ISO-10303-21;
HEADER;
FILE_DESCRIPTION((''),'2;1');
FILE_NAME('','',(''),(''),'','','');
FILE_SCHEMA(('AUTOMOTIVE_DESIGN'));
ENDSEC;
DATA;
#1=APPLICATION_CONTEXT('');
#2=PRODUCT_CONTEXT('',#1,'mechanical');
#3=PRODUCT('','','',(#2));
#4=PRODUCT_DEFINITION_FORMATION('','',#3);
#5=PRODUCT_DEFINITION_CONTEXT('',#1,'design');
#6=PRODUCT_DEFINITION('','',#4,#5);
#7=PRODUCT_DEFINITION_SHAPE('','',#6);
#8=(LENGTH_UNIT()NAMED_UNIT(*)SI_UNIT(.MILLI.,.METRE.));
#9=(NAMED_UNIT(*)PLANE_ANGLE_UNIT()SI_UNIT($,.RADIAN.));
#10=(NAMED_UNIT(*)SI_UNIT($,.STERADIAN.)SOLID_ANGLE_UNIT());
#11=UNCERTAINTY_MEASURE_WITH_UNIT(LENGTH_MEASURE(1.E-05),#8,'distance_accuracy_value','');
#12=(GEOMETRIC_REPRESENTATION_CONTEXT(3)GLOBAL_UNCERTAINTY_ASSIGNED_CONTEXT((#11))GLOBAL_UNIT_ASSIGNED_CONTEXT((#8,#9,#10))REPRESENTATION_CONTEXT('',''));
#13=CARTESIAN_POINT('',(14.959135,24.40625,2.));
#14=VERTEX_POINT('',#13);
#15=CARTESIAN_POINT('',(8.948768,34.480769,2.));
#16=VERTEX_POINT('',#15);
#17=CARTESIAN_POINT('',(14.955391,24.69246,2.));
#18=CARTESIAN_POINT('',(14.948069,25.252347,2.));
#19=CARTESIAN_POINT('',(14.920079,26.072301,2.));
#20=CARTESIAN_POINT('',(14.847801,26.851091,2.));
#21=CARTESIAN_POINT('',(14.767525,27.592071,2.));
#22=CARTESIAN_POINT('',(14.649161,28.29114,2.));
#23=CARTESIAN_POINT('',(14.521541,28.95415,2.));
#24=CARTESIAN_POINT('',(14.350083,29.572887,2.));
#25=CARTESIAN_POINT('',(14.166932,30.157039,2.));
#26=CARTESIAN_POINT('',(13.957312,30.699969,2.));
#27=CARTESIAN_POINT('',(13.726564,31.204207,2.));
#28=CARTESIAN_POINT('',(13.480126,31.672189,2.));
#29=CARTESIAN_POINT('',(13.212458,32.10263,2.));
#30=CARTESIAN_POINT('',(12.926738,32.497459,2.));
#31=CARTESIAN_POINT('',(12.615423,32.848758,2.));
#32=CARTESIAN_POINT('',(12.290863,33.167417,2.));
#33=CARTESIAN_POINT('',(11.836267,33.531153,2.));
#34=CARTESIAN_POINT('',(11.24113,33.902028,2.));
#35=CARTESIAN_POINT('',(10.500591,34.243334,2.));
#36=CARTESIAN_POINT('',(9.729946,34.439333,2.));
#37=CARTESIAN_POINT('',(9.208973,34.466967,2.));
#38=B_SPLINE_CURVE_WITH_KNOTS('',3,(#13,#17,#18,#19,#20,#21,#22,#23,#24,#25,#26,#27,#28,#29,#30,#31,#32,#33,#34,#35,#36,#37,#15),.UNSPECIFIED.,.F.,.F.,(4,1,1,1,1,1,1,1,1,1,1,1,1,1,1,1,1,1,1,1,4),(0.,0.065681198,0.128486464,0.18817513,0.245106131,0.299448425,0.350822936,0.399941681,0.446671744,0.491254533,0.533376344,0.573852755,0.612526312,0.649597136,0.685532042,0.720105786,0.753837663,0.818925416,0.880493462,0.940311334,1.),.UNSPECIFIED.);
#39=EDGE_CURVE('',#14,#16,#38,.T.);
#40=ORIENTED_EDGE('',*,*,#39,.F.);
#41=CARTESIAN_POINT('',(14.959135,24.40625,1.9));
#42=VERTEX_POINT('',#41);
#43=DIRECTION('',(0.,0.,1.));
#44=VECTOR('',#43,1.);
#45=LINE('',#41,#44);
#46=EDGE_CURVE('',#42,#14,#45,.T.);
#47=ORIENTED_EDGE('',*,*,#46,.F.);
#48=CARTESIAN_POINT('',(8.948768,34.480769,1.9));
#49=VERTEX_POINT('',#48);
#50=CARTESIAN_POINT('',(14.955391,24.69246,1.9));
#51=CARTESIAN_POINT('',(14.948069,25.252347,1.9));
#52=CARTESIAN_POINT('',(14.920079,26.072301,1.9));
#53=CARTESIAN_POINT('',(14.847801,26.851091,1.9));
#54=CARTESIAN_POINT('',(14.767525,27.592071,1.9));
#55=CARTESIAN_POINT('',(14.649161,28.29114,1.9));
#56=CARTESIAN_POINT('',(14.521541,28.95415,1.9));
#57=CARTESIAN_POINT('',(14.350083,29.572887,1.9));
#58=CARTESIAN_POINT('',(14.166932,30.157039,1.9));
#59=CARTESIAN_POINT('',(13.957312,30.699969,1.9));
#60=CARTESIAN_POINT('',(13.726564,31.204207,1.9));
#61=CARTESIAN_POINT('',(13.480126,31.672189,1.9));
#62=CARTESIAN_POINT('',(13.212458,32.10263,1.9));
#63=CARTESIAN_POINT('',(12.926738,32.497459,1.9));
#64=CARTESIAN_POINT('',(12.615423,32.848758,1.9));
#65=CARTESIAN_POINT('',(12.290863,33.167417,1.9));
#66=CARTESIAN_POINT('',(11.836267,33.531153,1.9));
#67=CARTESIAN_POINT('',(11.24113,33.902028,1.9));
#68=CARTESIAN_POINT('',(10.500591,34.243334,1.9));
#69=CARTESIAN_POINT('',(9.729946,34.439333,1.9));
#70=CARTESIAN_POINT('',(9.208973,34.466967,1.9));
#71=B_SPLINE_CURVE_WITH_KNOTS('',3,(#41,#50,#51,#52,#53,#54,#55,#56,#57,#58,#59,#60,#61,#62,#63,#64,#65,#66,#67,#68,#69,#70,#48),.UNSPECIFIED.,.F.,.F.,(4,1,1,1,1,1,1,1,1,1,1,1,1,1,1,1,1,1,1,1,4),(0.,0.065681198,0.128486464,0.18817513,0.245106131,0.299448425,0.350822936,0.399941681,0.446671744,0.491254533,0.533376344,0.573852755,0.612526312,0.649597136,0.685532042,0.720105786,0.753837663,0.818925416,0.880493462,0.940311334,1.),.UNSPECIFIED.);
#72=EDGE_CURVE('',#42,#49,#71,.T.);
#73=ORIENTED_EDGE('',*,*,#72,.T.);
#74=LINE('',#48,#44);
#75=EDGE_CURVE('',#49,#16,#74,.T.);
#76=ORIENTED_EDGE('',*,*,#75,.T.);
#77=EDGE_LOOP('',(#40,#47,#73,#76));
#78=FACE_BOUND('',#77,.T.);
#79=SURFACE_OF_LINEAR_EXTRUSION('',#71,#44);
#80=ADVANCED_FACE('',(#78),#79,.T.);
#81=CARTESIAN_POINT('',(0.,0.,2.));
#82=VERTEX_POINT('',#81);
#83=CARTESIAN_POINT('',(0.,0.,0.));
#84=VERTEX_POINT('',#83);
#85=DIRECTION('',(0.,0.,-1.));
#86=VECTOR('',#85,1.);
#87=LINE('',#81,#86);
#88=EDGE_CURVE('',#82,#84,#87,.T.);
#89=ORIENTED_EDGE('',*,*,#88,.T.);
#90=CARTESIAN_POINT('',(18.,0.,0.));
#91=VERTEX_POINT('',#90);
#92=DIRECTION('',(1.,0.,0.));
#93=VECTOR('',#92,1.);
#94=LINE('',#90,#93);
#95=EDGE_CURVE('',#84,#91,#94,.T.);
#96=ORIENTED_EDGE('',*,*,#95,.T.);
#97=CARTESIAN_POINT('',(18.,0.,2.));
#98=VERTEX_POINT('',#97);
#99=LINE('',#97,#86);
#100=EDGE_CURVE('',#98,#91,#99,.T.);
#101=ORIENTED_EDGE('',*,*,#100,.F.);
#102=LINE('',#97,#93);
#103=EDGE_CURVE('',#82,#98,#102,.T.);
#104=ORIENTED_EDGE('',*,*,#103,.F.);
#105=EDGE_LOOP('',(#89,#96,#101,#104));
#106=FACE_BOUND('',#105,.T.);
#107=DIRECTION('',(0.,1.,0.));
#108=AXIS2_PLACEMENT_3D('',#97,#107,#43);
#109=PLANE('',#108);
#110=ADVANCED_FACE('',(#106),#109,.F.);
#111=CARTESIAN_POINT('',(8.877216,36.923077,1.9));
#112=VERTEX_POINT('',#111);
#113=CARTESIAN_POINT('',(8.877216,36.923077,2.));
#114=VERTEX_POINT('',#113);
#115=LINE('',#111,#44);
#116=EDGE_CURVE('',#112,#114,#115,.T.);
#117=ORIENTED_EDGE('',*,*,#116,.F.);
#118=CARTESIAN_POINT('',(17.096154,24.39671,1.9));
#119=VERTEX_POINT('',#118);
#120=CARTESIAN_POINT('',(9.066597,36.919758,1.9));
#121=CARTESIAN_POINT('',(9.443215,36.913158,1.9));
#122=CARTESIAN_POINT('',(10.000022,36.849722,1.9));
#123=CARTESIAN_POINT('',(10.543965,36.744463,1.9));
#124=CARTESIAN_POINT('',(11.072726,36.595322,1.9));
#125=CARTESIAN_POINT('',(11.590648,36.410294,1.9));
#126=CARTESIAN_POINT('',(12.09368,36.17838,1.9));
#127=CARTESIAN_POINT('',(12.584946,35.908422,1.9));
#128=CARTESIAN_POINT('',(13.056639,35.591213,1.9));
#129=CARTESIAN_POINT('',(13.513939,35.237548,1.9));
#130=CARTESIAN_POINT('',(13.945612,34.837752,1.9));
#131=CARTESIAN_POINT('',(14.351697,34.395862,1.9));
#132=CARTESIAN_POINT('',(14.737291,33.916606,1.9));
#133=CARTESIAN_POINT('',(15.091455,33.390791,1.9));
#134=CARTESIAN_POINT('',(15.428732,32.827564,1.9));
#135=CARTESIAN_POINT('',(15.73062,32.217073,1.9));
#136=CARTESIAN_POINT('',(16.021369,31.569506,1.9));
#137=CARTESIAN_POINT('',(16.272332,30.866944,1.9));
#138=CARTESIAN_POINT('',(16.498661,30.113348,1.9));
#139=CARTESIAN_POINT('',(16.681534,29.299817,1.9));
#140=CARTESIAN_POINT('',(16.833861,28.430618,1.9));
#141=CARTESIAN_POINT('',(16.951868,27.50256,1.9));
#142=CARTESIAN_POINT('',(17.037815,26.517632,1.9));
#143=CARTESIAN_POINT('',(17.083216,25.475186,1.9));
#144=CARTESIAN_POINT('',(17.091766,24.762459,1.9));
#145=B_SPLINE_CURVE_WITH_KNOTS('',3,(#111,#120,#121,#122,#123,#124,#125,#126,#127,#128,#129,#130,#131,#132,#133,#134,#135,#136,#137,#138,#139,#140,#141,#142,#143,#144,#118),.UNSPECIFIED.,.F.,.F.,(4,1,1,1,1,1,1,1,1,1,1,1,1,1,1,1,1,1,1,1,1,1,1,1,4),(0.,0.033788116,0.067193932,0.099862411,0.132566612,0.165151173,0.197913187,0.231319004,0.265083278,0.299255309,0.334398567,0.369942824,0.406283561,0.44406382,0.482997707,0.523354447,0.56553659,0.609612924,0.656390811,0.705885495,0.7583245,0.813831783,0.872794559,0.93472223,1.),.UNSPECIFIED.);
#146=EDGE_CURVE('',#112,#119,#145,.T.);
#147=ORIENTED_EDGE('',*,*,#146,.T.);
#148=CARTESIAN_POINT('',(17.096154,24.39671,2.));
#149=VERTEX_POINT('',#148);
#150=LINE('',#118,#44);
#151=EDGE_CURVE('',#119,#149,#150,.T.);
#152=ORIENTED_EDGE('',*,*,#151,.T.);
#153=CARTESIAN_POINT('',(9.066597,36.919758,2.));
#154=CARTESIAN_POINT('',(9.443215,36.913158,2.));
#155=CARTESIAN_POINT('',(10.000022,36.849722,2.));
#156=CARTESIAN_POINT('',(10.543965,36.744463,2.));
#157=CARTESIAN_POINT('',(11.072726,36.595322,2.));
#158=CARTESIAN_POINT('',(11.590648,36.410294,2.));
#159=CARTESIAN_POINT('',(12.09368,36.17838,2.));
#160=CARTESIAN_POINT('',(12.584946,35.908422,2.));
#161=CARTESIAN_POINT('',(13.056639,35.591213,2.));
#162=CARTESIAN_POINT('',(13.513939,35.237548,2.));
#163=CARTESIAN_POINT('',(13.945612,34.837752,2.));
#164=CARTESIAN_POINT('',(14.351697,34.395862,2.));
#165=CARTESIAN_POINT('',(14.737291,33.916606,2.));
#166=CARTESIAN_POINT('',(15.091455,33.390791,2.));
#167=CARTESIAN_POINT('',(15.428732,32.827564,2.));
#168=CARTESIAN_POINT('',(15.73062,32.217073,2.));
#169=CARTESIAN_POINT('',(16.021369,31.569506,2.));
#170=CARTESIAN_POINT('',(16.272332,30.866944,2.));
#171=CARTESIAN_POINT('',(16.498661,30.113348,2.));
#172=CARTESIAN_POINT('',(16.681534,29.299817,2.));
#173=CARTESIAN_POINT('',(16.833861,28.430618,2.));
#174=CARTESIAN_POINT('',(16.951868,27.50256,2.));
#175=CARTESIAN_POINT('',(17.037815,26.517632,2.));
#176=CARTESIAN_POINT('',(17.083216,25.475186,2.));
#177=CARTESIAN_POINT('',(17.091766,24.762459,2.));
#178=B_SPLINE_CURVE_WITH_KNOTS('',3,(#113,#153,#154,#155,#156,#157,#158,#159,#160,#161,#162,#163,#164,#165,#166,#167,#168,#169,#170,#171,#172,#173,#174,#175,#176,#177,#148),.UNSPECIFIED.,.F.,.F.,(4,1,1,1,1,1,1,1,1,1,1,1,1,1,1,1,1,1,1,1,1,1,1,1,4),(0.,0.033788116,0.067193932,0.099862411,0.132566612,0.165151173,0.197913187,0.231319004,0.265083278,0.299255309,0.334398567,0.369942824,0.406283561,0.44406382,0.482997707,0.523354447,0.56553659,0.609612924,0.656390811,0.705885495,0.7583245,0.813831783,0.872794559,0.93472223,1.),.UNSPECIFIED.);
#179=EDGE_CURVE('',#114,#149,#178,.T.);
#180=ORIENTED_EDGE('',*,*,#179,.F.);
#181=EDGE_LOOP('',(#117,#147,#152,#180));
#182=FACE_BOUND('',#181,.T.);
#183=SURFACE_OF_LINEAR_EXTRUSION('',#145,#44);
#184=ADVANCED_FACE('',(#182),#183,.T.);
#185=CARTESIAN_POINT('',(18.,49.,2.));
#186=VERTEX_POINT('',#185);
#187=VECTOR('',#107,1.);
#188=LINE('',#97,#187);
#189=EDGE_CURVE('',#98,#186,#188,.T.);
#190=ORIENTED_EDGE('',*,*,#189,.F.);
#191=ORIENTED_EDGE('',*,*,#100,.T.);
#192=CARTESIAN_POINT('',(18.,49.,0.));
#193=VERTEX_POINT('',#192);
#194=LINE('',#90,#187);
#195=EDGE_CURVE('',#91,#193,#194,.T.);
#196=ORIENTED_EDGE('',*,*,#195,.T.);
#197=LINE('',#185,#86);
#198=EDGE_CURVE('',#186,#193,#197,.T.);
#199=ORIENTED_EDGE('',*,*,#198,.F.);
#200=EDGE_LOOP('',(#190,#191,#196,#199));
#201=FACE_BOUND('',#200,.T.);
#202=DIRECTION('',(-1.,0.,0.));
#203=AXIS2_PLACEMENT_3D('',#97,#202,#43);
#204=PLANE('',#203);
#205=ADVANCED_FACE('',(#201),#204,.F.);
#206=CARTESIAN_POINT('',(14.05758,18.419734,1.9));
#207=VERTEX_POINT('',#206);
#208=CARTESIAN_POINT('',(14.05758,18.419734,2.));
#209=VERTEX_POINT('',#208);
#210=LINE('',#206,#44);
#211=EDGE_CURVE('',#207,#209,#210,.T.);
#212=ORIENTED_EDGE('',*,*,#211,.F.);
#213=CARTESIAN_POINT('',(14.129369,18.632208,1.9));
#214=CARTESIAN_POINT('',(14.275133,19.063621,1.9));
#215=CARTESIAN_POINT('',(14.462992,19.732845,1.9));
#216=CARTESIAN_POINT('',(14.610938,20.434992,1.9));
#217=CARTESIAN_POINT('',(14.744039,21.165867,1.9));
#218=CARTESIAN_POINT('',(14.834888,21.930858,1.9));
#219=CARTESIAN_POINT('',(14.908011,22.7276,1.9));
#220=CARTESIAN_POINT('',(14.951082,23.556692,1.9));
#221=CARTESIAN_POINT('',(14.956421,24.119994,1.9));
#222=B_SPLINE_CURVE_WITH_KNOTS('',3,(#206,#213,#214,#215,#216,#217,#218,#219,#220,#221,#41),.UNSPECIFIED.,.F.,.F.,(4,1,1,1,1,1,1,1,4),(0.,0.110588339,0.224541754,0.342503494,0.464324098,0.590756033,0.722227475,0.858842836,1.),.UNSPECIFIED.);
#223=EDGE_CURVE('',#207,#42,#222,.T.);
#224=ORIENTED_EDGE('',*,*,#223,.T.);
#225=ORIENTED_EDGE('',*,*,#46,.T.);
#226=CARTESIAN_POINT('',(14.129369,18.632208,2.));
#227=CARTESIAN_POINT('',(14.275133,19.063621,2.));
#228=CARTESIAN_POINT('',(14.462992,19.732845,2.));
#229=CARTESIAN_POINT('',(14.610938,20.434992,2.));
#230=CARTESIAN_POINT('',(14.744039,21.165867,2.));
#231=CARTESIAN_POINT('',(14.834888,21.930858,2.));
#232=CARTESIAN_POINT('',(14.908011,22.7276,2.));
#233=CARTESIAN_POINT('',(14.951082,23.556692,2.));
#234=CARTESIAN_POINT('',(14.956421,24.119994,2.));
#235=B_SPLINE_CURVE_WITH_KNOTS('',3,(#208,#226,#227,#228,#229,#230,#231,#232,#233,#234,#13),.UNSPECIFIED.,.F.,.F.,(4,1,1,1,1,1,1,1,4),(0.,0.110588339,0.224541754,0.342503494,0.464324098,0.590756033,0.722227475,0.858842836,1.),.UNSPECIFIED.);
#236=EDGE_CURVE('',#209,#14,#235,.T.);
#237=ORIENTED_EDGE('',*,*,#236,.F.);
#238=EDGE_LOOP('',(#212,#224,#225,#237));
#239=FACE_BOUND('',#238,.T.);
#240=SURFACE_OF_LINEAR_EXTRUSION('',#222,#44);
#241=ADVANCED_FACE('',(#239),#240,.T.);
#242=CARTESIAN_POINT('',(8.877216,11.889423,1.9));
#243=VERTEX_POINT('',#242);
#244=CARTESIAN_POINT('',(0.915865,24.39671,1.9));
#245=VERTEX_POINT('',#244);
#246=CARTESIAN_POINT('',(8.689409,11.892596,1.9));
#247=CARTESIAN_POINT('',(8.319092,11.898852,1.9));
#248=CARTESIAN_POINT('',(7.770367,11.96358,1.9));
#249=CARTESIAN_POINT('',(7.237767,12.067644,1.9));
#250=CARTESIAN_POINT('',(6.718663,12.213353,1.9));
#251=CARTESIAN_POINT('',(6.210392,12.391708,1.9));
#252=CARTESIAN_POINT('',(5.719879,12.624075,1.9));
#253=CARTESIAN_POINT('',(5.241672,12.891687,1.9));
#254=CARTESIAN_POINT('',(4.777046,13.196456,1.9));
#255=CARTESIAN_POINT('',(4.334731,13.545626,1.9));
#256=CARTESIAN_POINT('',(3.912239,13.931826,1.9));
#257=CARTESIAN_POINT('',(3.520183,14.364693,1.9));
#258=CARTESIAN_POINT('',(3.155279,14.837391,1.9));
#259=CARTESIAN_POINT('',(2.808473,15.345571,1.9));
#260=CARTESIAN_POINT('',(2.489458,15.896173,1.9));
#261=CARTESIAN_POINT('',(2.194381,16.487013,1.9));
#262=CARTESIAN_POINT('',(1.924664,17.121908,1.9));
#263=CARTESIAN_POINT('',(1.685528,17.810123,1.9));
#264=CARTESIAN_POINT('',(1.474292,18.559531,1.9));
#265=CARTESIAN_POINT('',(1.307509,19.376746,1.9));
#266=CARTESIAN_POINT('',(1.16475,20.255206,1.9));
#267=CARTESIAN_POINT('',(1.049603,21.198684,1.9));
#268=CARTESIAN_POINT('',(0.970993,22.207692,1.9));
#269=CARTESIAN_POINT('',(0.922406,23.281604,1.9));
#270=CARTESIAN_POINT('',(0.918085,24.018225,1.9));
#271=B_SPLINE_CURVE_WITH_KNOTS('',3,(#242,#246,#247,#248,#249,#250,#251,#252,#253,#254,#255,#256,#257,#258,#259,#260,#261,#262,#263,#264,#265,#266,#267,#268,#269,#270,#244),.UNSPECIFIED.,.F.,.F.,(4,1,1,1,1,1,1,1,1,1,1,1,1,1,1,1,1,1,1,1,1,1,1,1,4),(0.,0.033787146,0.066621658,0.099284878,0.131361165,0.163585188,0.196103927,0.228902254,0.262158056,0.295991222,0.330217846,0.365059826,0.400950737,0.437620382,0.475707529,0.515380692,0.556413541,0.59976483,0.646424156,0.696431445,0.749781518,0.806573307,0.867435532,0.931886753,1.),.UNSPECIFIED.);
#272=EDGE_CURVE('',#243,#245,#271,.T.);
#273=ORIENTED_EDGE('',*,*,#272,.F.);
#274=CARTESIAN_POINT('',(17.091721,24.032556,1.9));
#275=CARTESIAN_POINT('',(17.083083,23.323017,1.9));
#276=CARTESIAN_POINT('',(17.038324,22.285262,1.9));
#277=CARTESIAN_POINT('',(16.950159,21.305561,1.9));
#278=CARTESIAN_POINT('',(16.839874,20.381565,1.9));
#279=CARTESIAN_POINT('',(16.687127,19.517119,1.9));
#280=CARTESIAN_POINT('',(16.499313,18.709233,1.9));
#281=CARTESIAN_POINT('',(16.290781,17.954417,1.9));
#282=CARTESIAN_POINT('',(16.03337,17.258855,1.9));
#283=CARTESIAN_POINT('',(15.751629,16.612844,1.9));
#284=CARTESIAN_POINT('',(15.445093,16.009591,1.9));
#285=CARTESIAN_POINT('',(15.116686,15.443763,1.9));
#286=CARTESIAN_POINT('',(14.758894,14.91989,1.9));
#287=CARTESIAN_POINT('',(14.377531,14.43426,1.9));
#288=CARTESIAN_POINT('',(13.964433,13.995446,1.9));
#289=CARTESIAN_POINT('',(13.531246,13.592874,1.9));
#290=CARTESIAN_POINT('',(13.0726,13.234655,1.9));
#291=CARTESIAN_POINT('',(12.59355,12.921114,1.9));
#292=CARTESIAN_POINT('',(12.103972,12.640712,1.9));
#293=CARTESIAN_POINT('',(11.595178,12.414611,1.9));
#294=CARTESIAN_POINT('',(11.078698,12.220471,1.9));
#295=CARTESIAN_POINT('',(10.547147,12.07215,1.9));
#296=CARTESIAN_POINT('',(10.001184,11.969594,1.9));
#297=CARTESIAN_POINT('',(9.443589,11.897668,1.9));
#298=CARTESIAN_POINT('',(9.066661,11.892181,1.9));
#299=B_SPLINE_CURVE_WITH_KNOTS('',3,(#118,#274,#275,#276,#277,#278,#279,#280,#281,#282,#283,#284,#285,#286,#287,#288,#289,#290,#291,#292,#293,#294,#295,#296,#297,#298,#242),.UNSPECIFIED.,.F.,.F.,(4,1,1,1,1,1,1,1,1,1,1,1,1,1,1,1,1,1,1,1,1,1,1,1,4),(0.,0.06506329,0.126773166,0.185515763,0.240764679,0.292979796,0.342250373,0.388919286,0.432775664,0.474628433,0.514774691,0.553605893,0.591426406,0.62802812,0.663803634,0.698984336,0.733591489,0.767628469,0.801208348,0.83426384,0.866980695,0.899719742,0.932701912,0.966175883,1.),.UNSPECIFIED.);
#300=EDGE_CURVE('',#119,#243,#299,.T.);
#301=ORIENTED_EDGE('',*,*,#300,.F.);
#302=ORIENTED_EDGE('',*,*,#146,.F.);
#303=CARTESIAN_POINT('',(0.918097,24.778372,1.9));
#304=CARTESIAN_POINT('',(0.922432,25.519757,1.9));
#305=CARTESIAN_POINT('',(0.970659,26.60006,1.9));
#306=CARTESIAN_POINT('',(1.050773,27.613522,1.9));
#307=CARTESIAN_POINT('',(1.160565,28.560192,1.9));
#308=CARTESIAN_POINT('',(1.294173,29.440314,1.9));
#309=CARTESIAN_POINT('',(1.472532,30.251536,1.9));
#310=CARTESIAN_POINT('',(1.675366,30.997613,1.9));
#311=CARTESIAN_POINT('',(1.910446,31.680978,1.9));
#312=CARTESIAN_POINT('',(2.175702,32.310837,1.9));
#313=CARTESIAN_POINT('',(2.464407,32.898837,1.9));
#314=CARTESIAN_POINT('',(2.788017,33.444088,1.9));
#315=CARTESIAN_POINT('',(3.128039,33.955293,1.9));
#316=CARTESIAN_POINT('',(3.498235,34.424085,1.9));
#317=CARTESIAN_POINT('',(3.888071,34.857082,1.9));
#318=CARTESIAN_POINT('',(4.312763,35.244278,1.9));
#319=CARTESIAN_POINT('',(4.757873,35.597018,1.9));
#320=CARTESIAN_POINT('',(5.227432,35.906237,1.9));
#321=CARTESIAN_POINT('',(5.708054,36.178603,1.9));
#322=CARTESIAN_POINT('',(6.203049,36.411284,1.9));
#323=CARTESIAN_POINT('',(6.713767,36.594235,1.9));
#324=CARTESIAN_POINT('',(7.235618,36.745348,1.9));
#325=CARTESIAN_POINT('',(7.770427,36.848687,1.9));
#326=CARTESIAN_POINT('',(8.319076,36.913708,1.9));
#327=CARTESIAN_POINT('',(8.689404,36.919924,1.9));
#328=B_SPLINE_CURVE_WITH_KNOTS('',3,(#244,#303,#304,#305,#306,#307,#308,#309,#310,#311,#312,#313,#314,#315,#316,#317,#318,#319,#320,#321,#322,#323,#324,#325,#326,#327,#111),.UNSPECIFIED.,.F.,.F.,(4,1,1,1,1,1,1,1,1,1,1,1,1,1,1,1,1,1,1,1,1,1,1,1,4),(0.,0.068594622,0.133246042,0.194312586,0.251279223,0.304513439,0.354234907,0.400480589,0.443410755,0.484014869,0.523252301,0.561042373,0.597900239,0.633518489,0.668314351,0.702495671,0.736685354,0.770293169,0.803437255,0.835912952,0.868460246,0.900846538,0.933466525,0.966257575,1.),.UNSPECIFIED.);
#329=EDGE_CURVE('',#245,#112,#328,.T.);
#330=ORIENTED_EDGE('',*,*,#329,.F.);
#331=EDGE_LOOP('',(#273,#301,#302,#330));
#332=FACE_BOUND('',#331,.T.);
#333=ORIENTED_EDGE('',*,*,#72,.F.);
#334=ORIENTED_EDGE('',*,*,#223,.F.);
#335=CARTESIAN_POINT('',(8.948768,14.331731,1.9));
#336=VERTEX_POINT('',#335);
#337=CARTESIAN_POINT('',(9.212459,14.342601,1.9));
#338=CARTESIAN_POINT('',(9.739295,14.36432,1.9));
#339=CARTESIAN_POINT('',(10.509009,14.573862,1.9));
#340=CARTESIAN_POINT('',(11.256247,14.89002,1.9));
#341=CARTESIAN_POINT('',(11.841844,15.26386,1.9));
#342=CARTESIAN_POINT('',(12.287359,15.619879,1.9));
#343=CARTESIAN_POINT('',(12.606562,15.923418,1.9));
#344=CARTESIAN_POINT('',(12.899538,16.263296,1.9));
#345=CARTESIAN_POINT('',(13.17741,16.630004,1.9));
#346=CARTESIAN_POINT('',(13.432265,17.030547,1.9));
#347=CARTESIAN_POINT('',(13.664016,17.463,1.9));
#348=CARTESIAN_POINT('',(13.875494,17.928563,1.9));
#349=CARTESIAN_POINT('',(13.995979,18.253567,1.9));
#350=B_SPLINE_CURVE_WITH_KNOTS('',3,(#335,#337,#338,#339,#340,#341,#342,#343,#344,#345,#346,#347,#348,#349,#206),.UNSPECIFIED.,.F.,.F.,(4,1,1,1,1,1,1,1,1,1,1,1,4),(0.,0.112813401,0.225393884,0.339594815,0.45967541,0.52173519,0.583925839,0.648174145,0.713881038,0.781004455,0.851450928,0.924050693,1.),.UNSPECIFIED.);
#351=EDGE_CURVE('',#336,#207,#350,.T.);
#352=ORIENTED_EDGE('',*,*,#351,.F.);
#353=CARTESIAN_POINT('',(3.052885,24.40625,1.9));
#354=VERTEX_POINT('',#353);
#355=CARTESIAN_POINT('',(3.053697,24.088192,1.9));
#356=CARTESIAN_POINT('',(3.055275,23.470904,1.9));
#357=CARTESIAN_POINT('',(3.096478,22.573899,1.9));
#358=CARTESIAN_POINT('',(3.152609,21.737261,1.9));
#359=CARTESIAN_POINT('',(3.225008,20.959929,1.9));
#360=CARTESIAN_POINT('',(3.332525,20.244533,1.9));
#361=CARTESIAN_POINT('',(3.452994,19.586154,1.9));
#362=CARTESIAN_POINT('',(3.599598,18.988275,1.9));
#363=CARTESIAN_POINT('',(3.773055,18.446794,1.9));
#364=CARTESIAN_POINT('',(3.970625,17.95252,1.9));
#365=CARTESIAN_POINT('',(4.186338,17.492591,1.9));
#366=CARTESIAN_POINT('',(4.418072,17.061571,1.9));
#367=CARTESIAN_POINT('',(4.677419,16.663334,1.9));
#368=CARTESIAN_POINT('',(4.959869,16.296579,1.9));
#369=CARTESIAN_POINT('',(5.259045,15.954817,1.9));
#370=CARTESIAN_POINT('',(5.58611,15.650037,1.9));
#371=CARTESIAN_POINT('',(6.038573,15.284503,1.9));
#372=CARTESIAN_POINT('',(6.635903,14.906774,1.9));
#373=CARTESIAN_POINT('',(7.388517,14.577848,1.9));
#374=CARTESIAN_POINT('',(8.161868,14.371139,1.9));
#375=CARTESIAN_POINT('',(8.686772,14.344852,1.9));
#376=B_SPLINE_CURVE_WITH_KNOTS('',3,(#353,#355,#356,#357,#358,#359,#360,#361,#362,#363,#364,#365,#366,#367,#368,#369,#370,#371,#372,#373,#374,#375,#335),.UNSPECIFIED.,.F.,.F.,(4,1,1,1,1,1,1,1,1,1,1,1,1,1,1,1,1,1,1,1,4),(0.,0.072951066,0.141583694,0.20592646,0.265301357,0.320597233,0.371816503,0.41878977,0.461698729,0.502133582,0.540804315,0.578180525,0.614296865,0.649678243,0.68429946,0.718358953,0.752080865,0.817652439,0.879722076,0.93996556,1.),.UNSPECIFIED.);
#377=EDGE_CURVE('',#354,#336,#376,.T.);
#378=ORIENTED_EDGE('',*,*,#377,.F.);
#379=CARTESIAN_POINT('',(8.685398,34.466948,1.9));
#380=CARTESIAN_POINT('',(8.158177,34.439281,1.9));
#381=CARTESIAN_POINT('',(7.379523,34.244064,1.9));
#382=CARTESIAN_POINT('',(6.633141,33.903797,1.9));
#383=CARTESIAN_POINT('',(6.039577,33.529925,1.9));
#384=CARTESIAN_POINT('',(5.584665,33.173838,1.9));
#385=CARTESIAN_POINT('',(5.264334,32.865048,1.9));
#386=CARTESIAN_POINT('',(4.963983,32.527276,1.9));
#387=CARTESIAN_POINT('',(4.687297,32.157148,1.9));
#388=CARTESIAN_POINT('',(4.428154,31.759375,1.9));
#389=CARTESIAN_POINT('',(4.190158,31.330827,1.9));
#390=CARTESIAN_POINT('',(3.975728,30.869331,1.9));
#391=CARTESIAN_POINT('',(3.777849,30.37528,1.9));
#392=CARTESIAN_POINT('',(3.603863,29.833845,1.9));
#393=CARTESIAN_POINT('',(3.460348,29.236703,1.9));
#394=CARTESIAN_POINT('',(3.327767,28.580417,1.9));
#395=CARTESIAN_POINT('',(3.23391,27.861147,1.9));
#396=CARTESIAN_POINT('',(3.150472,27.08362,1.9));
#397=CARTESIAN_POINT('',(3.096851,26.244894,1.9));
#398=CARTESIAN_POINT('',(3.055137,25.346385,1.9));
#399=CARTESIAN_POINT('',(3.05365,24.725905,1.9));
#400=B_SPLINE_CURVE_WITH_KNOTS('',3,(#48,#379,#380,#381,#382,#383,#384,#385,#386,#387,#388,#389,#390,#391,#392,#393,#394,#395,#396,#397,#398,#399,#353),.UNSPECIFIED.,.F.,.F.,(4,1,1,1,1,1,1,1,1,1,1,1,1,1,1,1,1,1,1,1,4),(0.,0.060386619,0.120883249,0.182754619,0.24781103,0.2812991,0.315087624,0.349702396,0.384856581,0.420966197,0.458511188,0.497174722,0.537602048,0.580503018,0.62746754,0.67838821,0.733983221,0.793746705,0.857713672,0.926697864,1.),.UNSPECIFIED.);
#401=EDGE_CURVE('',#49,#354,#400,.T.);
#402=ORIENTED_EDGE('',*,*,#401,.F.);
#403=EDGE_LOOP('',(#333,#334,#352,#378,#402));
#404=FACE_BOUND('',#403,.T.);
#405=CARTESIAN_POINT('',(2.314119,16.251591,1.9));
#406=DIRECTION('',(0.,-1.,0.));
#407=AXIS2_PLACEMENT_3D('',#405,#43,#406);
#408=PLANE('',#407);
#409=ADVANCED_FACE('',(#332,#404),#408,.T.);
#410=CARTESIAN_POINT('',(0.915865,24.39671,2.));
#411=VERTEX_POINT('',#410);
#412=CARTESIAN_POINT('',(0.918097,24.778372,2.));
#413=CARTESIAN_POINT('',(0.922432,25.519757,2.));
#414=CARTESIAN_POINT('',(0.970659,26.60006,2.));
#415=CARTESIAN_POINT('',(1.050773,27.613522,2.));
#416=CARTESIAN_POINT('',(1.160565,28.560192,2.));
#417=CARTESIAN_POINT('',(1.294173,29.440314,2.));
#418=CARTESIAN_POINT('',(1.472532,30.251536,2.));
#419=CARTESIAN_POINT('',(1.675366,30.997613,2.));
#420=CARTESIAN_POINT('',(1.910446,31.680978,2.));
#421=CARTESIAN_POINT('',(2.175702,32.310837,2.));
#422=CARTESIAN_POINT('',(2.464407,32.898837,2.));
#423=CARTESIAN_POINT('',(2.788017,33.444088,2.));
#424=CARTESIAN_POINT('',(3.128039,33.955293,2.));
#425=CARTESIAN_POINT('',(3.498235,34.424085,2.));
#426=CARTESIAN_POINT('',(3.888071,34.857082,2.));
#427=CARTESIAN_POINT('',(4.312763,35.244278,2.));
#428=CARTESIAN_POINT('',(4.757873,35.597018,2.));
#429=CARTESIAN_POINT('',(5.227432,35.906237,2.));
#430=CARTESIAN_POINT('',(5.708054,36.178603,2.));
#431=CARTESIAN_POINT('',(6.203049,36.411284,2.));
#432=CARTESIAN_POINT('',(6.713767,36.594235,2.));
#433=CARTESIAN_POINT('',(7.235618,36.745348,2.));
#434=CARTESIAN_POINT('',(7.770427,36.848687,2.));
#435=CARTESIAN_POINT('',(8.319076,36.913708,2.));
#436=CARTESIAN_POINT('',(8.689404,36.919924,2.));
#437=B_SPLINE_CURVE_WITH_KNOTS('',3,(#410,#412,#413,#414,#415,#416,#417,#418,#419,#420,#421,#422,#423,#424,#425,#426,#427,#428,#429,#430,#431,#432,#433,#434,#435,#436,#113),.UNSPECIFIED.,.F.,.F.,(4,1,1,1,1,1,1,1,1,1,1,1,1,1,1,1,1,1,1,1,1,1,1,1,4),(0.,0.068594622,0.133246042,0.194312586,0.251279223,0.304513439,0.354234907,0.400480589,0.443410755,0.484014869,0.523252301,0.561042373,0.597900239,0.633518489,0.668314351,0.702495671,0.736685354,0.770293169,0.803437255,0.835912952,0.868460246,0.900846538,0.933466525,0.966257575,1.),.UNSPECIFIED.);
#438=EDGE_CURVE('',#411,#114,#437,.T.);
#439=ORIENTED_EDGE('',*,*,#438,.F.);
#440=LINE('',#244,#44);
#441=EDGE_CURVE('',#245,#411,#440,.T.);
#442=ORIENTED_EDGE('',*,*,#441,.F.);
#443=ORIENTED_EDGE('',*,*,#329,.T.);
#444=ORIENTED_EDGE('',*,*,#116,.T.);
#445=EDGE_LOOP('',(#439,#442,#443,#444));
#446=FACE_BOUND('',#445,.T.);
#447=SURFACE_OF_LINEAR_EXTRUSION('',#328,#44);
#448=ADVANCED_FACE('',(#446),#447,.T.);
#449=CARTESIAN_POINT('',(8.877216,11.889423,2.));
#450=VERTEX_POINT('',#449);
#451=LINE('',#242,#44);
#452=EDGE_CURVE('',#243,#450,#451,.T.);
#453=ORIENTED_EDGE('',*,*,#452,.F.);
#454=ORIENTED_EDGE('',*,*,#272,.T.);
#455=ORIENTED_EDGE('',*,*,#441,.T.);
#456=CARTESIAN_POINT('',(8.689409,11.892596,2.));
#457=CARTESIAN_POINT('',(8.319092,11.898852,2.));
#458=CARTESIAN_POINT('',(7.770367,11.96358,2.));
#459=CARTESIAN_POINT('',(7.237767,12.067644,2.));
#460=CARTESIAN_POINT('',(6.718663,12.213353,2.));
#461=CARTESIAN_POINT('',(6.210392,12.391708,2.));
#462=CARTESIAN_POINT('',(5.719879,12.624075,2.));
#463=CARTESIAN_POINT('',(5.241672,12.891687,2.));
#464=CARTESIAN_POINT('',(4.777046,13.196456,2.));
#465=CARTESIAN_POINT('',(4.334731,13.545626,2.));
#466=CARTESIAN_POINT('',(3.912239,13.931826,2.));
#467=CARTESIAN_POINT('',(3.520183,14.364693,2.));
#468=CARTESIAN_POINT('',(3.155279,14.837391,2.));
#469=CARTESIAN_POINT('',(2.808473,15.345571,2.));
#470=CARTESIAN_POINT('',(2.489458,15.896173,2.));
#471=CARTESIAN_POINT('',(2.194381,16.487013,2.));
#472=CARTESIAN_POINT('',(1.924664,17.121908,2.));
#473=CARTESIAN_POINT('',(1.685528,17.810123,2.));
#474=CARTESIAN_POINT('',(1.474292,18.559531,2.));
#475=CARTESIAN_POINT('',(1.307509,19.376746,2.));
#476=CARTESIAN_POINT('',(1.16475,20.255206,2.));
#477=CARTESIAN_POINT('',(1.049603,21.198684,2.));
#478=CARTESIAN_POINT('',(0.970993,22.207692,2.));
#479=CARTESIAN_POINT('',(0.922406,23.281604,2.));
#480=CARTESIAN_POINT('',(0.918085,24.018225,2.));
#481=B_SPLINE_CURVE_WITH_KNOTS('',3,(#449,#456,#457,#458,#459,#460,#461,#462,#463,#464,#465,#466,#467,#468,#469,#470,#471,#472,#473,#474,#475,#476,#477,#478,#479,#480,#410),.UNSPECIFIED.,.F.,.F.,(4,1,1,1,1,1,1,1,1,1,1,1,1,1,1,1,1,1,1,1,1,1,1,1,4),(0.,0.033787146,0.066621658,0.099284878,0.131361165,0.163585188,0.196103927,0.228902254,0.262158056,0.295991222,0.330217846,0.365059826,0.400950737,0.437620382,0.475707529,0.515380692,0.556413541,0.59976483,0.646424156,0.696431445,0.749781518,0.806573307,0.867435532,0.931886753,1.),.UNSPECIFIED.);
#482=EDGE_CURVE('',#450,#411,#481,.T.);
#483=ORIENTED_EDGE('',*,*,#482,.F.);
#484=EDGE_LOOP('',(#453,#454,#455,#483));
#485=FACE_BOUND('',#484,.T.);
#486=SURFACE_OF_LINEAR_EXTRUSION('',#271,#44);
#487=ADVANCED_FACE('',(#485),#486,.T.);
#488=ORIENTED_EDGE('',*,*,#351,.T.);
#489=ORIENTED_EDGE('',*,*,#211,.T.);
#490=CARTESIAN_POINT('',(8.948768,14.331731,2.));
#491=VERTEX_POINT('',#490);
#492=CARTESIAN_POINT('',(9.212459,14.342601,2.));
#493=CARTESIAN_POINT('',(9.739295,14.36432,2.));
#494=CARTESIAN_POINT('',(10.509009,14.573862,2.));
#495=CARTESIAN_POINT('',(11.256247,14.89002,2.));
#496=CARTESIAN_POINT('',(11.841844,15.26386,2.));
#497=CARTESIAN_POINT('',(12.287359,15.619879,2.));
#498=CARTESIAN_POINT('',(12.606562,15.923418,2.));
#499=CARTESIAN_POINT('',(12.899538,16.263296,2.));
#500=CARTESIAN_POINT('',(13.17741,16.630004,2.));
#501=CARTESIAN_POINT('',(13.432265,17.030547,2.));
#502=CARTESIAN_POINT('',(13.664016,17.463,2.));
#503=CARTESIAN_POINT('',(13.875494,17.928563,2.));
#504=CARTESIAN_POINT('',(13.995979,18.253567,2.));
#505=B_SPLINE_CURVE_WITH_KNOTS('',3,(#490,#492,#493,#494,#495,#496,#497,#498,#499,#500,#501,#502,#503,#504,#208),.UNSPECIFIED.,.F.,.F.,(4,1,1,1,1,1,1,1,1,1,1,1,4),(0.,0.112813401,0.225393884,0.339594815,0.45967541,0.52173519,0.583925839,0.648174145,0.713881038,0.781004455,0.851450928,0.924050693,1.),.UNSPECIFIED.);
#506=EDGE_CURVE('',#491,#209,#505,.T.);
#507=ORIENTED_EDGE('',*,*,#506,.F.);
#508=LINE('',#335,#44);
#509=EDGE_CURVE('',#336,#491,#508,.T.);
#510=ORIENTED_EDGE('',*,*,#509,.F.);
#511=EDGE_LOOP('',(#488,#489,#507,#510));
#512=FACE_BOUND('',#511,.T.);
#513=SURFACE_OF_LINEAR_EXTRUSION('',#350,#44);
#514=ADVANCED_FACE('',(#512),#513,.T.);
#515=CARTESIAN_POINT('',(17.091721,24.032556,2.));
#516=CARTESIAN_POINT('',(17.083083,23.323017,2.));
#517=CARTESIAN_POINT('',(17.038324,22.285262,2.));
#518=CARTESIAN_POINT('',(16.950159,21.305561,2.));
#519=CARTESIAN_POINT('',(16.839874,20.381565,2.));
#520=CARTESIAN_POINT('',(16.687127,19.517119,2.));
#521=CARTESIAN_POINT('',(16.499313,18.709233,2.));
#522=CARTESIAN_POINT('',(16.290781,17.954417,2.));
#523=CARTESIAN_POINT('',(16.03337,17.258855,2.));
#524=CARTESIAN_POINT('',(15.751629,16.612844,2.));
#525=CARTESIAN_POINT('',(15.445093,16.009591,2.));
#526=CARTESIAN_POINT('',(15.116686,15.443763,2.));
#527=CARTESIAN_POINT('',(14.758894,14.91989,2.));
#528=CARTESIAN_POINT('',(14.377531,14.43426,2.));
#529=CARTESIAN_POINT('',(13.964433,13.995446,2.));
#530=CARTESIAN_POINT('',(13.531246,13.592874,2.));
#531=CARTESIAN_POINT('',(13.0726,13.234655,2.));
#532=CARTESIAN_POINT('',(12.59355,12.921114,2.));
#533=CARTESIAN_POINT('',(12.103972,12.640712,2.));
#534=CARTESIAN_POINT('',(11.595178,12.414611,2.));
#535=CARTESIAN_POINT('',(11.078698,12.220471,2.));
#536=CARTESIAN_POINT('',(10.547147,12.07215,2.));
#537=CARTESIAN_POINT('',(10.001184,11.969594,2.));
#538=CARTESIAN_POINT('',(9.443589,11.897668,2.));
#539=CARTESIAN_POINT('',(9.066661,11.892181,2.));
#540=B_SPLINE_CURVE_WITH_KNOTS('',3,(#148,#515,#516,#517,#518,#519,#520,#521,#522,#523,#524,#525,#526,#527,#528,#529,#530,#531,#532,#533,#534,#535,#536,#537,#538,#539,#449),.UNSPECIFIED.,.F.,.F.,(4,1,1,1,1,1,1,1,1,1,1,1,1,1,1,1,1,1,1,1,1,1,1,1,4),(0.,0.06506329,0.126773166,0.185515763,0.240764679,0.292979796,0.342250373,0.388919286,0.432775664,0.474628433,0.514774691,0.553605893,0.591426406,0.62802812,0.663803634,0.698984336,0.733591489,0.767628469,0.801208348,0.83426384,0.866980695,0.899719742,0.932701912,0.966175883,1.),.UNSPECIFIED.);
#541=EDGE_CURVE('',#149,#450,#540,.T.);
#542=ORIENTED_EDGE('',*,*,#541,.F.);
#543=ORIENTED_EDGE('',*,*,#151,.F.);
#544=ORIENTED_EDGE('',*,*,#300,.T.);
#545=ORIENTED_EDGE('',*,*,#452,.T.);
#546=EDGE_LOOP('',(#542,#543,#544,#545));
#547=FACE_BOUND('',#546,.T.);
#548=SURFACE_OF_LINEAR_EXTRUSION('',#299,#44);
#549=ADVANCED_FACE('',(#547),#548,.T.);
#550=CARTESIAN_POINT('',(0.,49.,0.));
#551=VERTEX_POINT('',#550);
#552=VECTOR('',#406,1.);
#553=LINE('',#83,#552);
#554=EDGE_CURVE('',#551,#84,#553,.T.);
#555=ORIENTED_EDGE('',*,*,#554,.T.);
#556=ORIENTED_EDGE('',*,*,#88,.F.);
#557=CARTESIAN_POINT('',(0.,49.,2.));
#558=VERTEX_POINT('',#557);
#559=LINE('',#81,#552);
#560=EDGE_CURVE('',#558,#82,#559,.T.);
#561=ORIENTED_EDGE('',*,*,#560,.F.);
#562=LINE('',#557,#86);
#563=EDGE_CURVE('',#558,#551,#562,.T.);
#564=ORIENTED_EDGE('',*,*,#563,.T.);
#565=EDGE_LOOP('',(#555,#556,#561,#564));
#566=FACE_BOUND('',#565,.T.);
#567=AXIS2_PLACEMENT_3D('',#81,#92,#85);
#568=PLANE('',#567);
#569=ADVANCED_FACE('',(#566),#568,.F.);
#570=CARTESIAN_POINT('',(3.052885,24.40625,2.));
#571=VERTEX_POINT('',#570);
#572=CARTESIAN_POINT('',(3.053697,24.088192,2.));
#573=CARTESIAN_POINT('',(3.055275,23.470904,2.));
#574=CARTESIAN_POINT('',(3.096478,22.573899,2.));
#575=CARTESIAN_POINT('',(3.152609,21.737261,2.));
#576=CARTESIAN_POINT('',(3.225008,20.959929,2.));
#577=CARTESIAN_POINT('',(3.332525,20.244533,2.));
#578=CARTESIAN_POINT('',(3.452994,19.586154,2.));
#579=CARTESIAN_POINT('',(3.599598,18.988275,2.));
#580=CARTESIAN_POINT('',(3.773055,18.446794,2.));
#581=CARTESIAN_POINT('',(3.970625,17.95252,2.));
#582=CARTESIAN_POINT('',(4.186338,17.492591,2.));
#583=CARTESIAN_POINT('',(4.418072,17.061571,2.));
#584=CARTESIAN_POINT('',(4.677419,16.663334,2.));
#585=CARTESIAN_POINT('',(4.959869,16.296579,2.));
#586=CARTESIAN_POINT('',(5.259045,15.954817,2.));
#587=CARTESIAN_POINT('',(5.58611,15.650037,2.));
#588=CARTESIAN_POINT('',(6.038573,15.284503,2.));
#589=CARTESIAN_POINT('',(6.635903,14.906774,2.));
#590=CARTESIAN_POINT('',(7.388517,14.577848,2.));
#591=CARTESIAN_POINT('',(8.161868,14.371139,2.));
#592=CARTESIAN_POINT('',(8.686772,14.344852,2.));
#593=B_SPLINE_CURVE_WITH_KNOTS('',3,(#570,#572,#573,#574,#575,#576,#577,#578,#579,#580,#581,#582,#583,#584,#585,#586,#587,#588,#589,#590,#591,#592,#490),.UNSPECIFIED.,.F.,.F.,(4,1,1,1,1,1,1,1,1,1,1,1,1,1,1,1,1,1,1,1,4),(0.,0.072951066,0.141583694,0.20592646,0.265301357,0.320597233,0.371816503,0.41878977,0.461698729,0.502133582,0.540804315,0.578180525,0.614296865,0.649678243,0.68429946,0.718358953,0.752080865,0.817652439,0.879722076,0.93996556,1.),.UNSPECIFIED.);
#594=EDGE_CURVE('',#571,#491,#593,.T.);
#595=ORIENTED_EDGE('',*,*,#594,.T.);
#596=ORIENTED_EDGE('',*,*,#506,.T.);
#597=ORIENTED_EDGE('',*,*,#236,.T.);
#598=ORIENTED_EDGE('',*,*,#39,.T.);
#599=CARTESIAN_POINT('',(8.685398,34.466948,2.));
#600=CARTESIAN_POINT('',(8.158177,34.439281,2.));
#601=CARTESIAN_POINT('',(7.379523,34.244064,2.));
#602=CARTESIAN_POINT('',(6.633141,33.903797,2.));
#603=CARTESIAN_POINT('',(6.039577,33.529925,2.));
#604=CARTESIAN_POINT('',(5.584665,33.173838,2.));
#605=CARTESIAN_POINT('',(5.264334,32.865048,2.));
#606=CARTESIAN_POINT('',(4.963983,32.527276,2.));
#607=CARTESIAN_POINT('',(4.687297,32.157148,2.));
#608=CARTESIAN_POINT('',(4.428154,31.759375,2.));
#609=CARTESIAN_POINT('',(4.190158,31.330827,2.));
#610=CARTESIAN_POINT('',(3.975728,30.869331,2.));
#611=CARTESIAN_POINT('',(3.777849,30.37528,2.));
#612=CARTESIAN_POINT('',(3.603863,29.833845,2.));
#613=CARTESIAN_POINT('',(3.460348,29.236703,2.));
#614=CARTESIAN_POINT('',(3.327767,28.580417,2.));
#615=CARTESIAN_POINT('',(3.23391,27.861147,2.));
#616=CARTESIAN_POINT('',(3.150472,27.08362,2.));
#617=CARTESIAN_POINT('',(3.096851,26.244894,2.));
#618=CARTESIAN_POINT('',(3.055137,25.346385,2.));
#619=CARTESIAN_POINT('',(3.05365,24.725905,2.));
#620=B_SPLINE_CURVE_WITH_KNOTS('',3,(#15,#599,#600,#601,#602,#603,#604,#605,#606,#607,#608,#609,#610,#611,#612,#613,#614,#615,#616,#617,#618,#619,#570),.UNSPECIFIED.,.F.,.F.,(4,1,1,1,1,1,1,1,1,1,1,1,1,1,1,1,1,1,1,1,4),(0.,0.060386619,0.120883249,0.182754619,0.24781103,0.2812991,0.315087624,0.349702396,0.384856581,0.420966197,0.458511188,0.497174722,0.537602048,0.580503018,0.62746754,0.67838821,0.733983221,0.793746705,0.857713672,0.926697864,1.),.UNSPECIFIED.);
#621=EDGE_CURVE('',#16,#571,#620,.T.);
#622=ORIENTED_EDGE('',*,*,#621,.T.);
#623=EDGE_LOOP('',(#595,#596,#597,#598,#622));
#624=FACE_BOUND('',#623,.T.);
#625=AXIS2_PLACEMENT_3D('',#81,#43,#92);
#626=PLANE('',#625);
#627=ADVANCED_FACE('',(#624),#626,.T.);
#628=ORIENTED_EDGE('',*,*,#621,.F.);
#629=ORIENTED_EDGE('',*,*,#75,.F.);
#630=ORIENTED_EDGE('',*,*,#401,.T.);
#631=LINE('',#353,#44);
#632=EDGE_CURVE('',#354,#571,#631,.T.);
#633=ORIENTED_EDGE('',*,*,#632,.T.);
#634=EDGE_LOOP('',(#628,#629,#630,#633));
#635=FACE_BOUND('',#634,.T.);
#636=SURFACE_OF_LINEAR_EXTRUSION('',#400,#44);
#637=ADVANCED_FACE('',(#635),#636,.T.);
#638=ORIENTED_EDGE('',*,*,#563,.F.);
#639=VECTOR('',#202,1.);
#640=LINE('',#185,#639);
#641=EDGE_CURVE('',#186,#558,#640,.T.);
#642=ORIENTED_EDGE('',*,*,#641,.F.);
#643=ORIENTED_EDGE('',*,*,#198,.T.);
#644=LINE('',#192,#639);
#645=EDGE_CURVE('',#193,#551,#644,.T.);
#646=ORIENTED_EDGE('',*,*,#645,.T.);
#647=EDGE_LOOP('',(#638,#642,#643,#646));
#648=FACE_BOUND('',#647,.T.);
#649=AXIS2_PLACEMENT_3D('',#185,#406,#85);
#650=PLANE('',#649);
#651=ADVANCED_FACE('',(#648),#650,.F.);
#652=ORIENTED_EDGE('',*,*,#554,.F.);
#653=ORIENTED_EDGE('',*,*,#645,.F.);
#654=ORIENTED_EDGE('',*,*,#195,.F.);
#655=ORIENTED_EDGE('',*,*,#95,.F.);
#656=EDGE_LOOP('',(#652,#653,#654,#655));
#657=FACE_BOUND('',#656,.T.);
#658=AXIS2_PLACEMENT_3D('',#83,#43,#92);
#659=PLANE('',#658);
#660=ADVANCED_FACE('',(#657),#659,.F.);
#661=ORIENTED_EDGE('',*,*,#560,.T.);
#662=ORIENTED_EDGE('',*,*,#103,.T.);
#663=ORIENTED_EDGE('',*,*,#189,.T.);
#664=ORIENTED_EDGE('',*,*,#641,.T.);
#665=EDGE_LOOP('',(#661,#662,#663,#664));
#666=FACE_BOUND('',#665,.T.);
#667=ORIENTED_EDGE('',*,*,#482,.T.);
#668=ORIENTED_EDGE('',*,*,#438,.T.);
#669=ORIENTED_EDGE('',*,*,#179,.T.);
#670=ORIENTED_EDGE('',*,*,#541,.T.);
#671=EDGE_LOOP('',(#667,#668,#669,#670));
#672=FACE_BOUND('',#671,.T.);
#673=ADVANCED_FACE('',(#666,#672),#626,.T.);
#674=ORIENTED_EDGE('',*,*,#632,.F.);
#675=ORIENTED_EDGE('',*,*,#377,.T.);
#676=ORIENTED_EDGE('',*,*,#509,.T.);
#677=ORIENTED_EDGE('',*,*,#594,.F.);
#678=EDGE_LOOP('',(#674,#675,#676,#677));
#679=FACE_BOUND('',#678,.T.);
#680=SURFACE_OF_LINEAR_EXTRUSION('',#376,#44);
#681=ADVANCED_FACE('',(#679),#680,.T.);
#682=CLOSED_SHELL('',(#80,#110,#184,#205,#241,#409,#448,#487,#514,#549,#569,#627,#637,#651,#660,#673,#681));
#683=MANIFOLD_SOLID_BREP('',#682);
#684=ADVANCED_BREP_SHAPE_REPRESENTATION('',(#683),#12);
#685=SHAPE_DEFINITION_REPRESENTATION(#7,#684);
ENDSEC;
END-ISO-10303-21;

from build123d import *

# Parameters (mm, degrees)
SKETCH_1_W          = 18
SKETCH_1_H          = 49
EXTRUDE_1_DEPTH     = 2
CUT_EXTRUDE_1_DEPTH = 0.1


with BuildPart() as part:
    # ｽｹｯﾁ1 → ﾎﾞｽ - 押し出し1 (new body)
    with BuildSketch(Plane.XY):
        with Locations((9, 24.5)):
            Rectangle(SKETCH_1_W, SKETCH_1_H)
    extrude(amount=EXTRUDE_1_DEPTH)

    # ｽｹｯﾁ2 → ｶｯﾄ - 押し出し1 (cut)
    with BuildSketch(Plane.XY.offset(2)):
        with BuildLine():
            add(Edge.make_bspline(
                [(0.915865385, 24.396709736), (0.91809708, 24.77837232), (0.922432179, 25.519757391), (0.970658757, 26.600060045), (1.05077314, 27.613522012), (1.160564909, 28.5601918), (1.29417331, 29.440313805), (1.472532246, 30.251535992), (1.675365778, 30.997612959), (1.910445811, 31.68097761), (2.175702018, 32.310836625), (2.464406542, 32.898836655), (2.788017018, 33.444088016), (3.128038515, 33.95529334), (3.498234931, 34.42408455), (3.888071345, 34.85708195), (4.312763039, 35.244278306), (4.757873149, 35.597018327), (5.227431594, 35.906237054), (5.708054019, 36.178602651), (6.203048578, 36.411283891), (6.713766716, 36.594234892), (7.235618047, 36.745347974), (7.77042684, 36.848687065), (8.31907612, 36.913708174), (8.689404274, 36.919924378), (8.877216046, 36.923076923)],
                knots=[0, 0, 0, 0, 1.646270934, 3.197905019, 4.663502075, 6.030701355, 7.308322542, 8.50163776, 9.611534131, 10.641858119, 11.616356847, 12.558055219, 13.465016945, 14.349605745, 15.204443733, 16.039544428, 16.859896111, 17.680448484, 18.487036065, 19.28249412, 20.06191084, 20.843045899, 21.620316918, 22.403196591, 23.190181807, 24, 24, 24, 24], degree=3))
            add(Edge.make_bspline(
                [(8.877216046, 36.923076923), (9.066596712, 36.919758038), (9.443215272, 36.913157819), (10.000022111, 36.84972171), (10.543965481, 36.744462819), (11.072726389, 36.595321902), (11.590648172, 36.410294174), (12.093679803, 36.178380038), (12.58494584, 35.908422029), (13.056639404, 35.59121315), (13.51393884, 35.237548021), (13.945611588, 34.837752006), (14.351696941, 34.395861952), (14.737291429, 33.916605699), (15.091455403, 33.390791104), (15.42873179, 32.8275635), (15.730620106, 32.217073152), (16.021368521, 31.569506041), (16.27233177, 30.866944362), (16.498661046, 30.113348402), (16.681534028, 29.299816881), (16.833861042, 28.43061814), (16.95186828, 27.502560085), (17.037815363, 26.517632117), (17.083216174, 25.475186245), (17.09176623, 24.762458735), (17.096153846, 24.396709736)],
                knots=[0, 0, 0, 0, 0.810914788, 1.612654377, 2.396697861, 3.181598691, 3.963628158, 4.749916497, 5.551656086, 6.361998678, 7.18212741, 8.025565596, 8.878627764, 9.750805457, 10.657531673, 11.591944965, 12.560506719, 13.57287815, 14.630710178, 15.753379473, 16.941251878, 18.199788006, 19.531962791, 20.947069417, 22.433333509, 24, 24, 24, 24], degree=3))
            add(Edge.make_bspline(
                [(17.096153846, 24.396709736), (17.091720744, 24.032556005), (17.083083026, 23.323017311), (17.038324324, 22.285261925), (16.950159351, 21.305560952), (16.839873538, 20.38156477), (16.687126808, 19.517119185), (16.499313088, 18.709232848), (16.290781427, 17.954416932), (16.033369703, 17.258855088), (15.751628977, 16.61284426), (15.445092732, 16.009590983), (15.116685522, 15.44376317), (14.758894239, 14.919889892), (14.377530838, 14.4342601), (13.964433025, 13.995445917), (13.531245652, 13.592874024), (13.072600465, 13.234654916), (12.593550447, 12.921113656), (12.103971728, 12.640712281), (11.595177637, 12.414611266), (11.078698441, 12.220471077), (10.547146522, 12.072150145), (10.001184471, 11.969594092), (9.443589365, 11.897667766), (9.06666086, 11.892180823), (8.877216046, 11.889423077)],
                knots=[0, 0, 0, 0, 1.561518951, 3.042555995, 4.452378317, 5.7783523, 7.031515105, 8.214008947, 9.334062868, 10.386615937, 11.391082383, 12.354592575, 13.286541444, 14.194233754, 15.072674879, 15.931287219, 16.775624067, 17.606195743, 18.42308326, 19.229000347, 20.022332153, 20.807536673, 21.593273796, 22.3848459, 23.188221202, 24, 24, 24, 24], degree=3))
            add(Edge.make_bspline(
                [(8.877216046, 11.889423077), (8.689409484, 11.89259596), (8.319091603, 11.898852265), (7.770367066, 11.963579617), (7.237766871, 12.067643665), (6.718662848, 12.213353061), (6.210391736, 12.391707572), (5.7198795, 12.624074598), (5.241672223, 12.891686746), (4.777045744, 13.196455595), (4.334730863, 13.545626332), (3.912238566, 13.931826225), (3.520182632, 14.364692648), (3.155279232, 14.837390661), (2.808473382, 15.34557147), (2.489458181, 15.896173437), (2.194381478, 16.487013341), (1.924664157, 17.121908411), (1.685527714, 17.810123188), (1.474292414, 18.559530992), (1.307508593, 19.376746302), (1.164749558, 20.255205532), (1.049603309, 21.198683523), (0.970992631, 22.207692478), (0.922406184, 23.281603631), (0.918085437, 24.018224774), (0.915865385, 24.396709736)],
                knots=[0, 0, 0, 0, 0.810891512, 1.598919785, 2.382837074, 3.152667961, 3.926044502, 4.706494248, 5.493654104, 6.291793342, 7.103789334, 7.925228297, 8.761435821, 9.622817696, 10.50288917, 11.416980706, 12.369136599, 13.353924996, 14.394355917, 15.514179734, 16.714354668, 17.994756427, 19.357759367, 20.818452758, 22.365282078, 24, 24, 24, 24], degree=3))
        make_face()
        with BuildLine():
            add(Edge.make_bspline(
                [(3.052884615, 24.40625), (3.053697282, 24.088191888), (3.055274508, 23.470903548), (3.096478302, 22.573898505), (3.152609344, 21.737261089), (3.22500817, 20.959928993), (3.332524659, 20.244533372), (3.452994055, 19.586153921), (3.599598021, 18.988274861), (3.773055197, 18.446793506), (3.970624767, 17.95252038), (4.186337875, 17.492590684), (4.418072436, 17.061571259), (4.6774188, 16.663333674), (4.959869498, 16.296579236), (5.259044707, 15.954816573), (5.586109968, 15.650037111), (6.03857293, 15.284502615), (6.635902515, 14.906774223), (7.388516684, 14.577848147), (8.161868109, 14.371138935), (8.68677215, 14.344851595), (8.948768029, 14.331730769)],
                knots=[0, 0, 0, 0, 1.459021318, 2.831673884, 4.118529203, 5.306027144, 6.411944654, 7.436330062, 8.375795394, 9.233974572, 10.042671642, 10.816086306, 11.563610507, 12.285937304, 12.993564865, 13.685989202, 14.367179055, 15.041617293, 16.353048772, 17.594441528, 18.799311195, 20, 20, 20, 20], degree=3))
            add(Edge.make_bspline(
                [(8.948768029, 14.331730769), (9.212458616, 14.342601385), (9.739295369, 14.364320173), (10.509009225, 14.573861583), (11.256247313, 14.890020414), (11.841843906, 15.263859692), (12.287359068, 15.619879219), (12.606562162, 15.923418165), (12.899537884, 16.263296477), (13.177409858, 16.630004187), (13.432265355, 17.030547338), (13.664016345, 17.462999859), (13.87549412, 17.928562659), (13.995978879, 18.253567491), (14.057579627, 18.419734075)],
                knots=[0, 0, 0, 0, 1.353760809, 2.704726607, 4.075137775, 5.516104923, 6.260822281, 7.007110065, 7.778089737, 8.566572457, 9.372053459, 10.217411131, 11.088608312, 12, 12, 12, 12], degree=3))
            add(Edge.make_bspline(
                [(14.057579627, 18.419734075), (14.129369333, 18.632207838), (14.275133224, 19.063620698), (14.462991902, 19.732844831), (14.610938279, 20.434992207), (14.744039035, 21.165866662), (14.834887505, 21.930858199), (14.90801102, 22.727599847), (14.951082301, 23.556692329), (14.956421411, 24.119993966), (14.959134615, 24.40625)],
                knots=[0, 0, 0, 0, 0.884706709, 1.796334032, 2.740027952, 3.714592787, 4.726048262, 5.777819803, 6.87074269, 8, 8, 8, 8], degree=3))
            add(Edge.make_bspline(
                [(14.959134615, 24.40625), (14.955391364, 24.692459734), (14.948068763, 25.252347159), (14.920078954, 26.07230121), (14.847800706, 26.851090797), (14.767524558, 27.592070977), (14.649161322, 28.291140001), (14.521541243, 28.954150114), (14.350082995, 29.572887479), (14.166932383, 30.157039276), (13.957311656, 30.699968729), (13.726563536, 31.204207168), (13.480126213, 31.672188956), (13.212458469, 32.102630112), (12.92673784, 32.497458663), (12.615423086, 32.848758316), (12.290862978, 33.167416974), (11.836267481, 33.531153381), (11.241129902, 33.902027595), (10.500590766, 34.243333926), (9.729945847, 34.439333202), (9.208972883, 34.46696718), (8.948768029, 34.480769231)],
                knots=[0, 0, 0, 0, 1.31362396, 2.569729283, 3.763502607, 4.902122613, 5.988968491, 7.01645872, 7.998833611, 8.933434873, 9.825090667, 10.667526885, 11.477055099, 12.250526234, 12.991942729, 13.710640831, 14.402115721, 15.076753259, 16.378508321, 17.609869233, 18.806226677, 20, 20, 20, 20], degree=3))
            add(Edge.make_bspline(
                [(8.948768029, 34.480769231), (8.685397751, 34.466948138), (8.158177396, 34.439280775), (7.379522561, 34.244064175), (6.633141169, 33.903797389), (6.039577359, 33.529924997), (5.584664812, 33.173837557), (5.264334344, 32.865047575), (4.963982708, 32.527275737), (4.687297106, 32.157148424), (4.428153947, 31.759375121), (4.190158129, 31.330826561), (3.975727725, 30.869331029), (3.777849006, 30.375279924), (3.603862716, 29.833845284), (3.46034843, 29.236702667), (3.327766873, 28.580417296), (3.233909775, 27.861147072), (3.150472437, 27.083620279), (3.096851123, 26.244894239), (3.055136675, 25.346384794), (3.053650337, 24.725904805), (3.052884615, 24.40625)],
                knots=[0, 0, 0, 0, 1.207732386, 2.417664972, 3.655092373, 4.956220595, 5.625982001, 6.301752483, 6.994047911, 7.697131622, 8.419323945, 9.170223765, 9.943494443, 10.752040957, 11.610060368, 12.549350801, 13.567764191, 14.679664412, 15.874934091, 17.154273443, 18.533957287, 20, 20, 20, 20], degree=3))
        make_face(mode=Mode.SUBTRACT)
    extrude(amount=-CUT_EXTRUDE_1_DEPTH, mode=Mode.SUBTRACT)


solid = part.part
